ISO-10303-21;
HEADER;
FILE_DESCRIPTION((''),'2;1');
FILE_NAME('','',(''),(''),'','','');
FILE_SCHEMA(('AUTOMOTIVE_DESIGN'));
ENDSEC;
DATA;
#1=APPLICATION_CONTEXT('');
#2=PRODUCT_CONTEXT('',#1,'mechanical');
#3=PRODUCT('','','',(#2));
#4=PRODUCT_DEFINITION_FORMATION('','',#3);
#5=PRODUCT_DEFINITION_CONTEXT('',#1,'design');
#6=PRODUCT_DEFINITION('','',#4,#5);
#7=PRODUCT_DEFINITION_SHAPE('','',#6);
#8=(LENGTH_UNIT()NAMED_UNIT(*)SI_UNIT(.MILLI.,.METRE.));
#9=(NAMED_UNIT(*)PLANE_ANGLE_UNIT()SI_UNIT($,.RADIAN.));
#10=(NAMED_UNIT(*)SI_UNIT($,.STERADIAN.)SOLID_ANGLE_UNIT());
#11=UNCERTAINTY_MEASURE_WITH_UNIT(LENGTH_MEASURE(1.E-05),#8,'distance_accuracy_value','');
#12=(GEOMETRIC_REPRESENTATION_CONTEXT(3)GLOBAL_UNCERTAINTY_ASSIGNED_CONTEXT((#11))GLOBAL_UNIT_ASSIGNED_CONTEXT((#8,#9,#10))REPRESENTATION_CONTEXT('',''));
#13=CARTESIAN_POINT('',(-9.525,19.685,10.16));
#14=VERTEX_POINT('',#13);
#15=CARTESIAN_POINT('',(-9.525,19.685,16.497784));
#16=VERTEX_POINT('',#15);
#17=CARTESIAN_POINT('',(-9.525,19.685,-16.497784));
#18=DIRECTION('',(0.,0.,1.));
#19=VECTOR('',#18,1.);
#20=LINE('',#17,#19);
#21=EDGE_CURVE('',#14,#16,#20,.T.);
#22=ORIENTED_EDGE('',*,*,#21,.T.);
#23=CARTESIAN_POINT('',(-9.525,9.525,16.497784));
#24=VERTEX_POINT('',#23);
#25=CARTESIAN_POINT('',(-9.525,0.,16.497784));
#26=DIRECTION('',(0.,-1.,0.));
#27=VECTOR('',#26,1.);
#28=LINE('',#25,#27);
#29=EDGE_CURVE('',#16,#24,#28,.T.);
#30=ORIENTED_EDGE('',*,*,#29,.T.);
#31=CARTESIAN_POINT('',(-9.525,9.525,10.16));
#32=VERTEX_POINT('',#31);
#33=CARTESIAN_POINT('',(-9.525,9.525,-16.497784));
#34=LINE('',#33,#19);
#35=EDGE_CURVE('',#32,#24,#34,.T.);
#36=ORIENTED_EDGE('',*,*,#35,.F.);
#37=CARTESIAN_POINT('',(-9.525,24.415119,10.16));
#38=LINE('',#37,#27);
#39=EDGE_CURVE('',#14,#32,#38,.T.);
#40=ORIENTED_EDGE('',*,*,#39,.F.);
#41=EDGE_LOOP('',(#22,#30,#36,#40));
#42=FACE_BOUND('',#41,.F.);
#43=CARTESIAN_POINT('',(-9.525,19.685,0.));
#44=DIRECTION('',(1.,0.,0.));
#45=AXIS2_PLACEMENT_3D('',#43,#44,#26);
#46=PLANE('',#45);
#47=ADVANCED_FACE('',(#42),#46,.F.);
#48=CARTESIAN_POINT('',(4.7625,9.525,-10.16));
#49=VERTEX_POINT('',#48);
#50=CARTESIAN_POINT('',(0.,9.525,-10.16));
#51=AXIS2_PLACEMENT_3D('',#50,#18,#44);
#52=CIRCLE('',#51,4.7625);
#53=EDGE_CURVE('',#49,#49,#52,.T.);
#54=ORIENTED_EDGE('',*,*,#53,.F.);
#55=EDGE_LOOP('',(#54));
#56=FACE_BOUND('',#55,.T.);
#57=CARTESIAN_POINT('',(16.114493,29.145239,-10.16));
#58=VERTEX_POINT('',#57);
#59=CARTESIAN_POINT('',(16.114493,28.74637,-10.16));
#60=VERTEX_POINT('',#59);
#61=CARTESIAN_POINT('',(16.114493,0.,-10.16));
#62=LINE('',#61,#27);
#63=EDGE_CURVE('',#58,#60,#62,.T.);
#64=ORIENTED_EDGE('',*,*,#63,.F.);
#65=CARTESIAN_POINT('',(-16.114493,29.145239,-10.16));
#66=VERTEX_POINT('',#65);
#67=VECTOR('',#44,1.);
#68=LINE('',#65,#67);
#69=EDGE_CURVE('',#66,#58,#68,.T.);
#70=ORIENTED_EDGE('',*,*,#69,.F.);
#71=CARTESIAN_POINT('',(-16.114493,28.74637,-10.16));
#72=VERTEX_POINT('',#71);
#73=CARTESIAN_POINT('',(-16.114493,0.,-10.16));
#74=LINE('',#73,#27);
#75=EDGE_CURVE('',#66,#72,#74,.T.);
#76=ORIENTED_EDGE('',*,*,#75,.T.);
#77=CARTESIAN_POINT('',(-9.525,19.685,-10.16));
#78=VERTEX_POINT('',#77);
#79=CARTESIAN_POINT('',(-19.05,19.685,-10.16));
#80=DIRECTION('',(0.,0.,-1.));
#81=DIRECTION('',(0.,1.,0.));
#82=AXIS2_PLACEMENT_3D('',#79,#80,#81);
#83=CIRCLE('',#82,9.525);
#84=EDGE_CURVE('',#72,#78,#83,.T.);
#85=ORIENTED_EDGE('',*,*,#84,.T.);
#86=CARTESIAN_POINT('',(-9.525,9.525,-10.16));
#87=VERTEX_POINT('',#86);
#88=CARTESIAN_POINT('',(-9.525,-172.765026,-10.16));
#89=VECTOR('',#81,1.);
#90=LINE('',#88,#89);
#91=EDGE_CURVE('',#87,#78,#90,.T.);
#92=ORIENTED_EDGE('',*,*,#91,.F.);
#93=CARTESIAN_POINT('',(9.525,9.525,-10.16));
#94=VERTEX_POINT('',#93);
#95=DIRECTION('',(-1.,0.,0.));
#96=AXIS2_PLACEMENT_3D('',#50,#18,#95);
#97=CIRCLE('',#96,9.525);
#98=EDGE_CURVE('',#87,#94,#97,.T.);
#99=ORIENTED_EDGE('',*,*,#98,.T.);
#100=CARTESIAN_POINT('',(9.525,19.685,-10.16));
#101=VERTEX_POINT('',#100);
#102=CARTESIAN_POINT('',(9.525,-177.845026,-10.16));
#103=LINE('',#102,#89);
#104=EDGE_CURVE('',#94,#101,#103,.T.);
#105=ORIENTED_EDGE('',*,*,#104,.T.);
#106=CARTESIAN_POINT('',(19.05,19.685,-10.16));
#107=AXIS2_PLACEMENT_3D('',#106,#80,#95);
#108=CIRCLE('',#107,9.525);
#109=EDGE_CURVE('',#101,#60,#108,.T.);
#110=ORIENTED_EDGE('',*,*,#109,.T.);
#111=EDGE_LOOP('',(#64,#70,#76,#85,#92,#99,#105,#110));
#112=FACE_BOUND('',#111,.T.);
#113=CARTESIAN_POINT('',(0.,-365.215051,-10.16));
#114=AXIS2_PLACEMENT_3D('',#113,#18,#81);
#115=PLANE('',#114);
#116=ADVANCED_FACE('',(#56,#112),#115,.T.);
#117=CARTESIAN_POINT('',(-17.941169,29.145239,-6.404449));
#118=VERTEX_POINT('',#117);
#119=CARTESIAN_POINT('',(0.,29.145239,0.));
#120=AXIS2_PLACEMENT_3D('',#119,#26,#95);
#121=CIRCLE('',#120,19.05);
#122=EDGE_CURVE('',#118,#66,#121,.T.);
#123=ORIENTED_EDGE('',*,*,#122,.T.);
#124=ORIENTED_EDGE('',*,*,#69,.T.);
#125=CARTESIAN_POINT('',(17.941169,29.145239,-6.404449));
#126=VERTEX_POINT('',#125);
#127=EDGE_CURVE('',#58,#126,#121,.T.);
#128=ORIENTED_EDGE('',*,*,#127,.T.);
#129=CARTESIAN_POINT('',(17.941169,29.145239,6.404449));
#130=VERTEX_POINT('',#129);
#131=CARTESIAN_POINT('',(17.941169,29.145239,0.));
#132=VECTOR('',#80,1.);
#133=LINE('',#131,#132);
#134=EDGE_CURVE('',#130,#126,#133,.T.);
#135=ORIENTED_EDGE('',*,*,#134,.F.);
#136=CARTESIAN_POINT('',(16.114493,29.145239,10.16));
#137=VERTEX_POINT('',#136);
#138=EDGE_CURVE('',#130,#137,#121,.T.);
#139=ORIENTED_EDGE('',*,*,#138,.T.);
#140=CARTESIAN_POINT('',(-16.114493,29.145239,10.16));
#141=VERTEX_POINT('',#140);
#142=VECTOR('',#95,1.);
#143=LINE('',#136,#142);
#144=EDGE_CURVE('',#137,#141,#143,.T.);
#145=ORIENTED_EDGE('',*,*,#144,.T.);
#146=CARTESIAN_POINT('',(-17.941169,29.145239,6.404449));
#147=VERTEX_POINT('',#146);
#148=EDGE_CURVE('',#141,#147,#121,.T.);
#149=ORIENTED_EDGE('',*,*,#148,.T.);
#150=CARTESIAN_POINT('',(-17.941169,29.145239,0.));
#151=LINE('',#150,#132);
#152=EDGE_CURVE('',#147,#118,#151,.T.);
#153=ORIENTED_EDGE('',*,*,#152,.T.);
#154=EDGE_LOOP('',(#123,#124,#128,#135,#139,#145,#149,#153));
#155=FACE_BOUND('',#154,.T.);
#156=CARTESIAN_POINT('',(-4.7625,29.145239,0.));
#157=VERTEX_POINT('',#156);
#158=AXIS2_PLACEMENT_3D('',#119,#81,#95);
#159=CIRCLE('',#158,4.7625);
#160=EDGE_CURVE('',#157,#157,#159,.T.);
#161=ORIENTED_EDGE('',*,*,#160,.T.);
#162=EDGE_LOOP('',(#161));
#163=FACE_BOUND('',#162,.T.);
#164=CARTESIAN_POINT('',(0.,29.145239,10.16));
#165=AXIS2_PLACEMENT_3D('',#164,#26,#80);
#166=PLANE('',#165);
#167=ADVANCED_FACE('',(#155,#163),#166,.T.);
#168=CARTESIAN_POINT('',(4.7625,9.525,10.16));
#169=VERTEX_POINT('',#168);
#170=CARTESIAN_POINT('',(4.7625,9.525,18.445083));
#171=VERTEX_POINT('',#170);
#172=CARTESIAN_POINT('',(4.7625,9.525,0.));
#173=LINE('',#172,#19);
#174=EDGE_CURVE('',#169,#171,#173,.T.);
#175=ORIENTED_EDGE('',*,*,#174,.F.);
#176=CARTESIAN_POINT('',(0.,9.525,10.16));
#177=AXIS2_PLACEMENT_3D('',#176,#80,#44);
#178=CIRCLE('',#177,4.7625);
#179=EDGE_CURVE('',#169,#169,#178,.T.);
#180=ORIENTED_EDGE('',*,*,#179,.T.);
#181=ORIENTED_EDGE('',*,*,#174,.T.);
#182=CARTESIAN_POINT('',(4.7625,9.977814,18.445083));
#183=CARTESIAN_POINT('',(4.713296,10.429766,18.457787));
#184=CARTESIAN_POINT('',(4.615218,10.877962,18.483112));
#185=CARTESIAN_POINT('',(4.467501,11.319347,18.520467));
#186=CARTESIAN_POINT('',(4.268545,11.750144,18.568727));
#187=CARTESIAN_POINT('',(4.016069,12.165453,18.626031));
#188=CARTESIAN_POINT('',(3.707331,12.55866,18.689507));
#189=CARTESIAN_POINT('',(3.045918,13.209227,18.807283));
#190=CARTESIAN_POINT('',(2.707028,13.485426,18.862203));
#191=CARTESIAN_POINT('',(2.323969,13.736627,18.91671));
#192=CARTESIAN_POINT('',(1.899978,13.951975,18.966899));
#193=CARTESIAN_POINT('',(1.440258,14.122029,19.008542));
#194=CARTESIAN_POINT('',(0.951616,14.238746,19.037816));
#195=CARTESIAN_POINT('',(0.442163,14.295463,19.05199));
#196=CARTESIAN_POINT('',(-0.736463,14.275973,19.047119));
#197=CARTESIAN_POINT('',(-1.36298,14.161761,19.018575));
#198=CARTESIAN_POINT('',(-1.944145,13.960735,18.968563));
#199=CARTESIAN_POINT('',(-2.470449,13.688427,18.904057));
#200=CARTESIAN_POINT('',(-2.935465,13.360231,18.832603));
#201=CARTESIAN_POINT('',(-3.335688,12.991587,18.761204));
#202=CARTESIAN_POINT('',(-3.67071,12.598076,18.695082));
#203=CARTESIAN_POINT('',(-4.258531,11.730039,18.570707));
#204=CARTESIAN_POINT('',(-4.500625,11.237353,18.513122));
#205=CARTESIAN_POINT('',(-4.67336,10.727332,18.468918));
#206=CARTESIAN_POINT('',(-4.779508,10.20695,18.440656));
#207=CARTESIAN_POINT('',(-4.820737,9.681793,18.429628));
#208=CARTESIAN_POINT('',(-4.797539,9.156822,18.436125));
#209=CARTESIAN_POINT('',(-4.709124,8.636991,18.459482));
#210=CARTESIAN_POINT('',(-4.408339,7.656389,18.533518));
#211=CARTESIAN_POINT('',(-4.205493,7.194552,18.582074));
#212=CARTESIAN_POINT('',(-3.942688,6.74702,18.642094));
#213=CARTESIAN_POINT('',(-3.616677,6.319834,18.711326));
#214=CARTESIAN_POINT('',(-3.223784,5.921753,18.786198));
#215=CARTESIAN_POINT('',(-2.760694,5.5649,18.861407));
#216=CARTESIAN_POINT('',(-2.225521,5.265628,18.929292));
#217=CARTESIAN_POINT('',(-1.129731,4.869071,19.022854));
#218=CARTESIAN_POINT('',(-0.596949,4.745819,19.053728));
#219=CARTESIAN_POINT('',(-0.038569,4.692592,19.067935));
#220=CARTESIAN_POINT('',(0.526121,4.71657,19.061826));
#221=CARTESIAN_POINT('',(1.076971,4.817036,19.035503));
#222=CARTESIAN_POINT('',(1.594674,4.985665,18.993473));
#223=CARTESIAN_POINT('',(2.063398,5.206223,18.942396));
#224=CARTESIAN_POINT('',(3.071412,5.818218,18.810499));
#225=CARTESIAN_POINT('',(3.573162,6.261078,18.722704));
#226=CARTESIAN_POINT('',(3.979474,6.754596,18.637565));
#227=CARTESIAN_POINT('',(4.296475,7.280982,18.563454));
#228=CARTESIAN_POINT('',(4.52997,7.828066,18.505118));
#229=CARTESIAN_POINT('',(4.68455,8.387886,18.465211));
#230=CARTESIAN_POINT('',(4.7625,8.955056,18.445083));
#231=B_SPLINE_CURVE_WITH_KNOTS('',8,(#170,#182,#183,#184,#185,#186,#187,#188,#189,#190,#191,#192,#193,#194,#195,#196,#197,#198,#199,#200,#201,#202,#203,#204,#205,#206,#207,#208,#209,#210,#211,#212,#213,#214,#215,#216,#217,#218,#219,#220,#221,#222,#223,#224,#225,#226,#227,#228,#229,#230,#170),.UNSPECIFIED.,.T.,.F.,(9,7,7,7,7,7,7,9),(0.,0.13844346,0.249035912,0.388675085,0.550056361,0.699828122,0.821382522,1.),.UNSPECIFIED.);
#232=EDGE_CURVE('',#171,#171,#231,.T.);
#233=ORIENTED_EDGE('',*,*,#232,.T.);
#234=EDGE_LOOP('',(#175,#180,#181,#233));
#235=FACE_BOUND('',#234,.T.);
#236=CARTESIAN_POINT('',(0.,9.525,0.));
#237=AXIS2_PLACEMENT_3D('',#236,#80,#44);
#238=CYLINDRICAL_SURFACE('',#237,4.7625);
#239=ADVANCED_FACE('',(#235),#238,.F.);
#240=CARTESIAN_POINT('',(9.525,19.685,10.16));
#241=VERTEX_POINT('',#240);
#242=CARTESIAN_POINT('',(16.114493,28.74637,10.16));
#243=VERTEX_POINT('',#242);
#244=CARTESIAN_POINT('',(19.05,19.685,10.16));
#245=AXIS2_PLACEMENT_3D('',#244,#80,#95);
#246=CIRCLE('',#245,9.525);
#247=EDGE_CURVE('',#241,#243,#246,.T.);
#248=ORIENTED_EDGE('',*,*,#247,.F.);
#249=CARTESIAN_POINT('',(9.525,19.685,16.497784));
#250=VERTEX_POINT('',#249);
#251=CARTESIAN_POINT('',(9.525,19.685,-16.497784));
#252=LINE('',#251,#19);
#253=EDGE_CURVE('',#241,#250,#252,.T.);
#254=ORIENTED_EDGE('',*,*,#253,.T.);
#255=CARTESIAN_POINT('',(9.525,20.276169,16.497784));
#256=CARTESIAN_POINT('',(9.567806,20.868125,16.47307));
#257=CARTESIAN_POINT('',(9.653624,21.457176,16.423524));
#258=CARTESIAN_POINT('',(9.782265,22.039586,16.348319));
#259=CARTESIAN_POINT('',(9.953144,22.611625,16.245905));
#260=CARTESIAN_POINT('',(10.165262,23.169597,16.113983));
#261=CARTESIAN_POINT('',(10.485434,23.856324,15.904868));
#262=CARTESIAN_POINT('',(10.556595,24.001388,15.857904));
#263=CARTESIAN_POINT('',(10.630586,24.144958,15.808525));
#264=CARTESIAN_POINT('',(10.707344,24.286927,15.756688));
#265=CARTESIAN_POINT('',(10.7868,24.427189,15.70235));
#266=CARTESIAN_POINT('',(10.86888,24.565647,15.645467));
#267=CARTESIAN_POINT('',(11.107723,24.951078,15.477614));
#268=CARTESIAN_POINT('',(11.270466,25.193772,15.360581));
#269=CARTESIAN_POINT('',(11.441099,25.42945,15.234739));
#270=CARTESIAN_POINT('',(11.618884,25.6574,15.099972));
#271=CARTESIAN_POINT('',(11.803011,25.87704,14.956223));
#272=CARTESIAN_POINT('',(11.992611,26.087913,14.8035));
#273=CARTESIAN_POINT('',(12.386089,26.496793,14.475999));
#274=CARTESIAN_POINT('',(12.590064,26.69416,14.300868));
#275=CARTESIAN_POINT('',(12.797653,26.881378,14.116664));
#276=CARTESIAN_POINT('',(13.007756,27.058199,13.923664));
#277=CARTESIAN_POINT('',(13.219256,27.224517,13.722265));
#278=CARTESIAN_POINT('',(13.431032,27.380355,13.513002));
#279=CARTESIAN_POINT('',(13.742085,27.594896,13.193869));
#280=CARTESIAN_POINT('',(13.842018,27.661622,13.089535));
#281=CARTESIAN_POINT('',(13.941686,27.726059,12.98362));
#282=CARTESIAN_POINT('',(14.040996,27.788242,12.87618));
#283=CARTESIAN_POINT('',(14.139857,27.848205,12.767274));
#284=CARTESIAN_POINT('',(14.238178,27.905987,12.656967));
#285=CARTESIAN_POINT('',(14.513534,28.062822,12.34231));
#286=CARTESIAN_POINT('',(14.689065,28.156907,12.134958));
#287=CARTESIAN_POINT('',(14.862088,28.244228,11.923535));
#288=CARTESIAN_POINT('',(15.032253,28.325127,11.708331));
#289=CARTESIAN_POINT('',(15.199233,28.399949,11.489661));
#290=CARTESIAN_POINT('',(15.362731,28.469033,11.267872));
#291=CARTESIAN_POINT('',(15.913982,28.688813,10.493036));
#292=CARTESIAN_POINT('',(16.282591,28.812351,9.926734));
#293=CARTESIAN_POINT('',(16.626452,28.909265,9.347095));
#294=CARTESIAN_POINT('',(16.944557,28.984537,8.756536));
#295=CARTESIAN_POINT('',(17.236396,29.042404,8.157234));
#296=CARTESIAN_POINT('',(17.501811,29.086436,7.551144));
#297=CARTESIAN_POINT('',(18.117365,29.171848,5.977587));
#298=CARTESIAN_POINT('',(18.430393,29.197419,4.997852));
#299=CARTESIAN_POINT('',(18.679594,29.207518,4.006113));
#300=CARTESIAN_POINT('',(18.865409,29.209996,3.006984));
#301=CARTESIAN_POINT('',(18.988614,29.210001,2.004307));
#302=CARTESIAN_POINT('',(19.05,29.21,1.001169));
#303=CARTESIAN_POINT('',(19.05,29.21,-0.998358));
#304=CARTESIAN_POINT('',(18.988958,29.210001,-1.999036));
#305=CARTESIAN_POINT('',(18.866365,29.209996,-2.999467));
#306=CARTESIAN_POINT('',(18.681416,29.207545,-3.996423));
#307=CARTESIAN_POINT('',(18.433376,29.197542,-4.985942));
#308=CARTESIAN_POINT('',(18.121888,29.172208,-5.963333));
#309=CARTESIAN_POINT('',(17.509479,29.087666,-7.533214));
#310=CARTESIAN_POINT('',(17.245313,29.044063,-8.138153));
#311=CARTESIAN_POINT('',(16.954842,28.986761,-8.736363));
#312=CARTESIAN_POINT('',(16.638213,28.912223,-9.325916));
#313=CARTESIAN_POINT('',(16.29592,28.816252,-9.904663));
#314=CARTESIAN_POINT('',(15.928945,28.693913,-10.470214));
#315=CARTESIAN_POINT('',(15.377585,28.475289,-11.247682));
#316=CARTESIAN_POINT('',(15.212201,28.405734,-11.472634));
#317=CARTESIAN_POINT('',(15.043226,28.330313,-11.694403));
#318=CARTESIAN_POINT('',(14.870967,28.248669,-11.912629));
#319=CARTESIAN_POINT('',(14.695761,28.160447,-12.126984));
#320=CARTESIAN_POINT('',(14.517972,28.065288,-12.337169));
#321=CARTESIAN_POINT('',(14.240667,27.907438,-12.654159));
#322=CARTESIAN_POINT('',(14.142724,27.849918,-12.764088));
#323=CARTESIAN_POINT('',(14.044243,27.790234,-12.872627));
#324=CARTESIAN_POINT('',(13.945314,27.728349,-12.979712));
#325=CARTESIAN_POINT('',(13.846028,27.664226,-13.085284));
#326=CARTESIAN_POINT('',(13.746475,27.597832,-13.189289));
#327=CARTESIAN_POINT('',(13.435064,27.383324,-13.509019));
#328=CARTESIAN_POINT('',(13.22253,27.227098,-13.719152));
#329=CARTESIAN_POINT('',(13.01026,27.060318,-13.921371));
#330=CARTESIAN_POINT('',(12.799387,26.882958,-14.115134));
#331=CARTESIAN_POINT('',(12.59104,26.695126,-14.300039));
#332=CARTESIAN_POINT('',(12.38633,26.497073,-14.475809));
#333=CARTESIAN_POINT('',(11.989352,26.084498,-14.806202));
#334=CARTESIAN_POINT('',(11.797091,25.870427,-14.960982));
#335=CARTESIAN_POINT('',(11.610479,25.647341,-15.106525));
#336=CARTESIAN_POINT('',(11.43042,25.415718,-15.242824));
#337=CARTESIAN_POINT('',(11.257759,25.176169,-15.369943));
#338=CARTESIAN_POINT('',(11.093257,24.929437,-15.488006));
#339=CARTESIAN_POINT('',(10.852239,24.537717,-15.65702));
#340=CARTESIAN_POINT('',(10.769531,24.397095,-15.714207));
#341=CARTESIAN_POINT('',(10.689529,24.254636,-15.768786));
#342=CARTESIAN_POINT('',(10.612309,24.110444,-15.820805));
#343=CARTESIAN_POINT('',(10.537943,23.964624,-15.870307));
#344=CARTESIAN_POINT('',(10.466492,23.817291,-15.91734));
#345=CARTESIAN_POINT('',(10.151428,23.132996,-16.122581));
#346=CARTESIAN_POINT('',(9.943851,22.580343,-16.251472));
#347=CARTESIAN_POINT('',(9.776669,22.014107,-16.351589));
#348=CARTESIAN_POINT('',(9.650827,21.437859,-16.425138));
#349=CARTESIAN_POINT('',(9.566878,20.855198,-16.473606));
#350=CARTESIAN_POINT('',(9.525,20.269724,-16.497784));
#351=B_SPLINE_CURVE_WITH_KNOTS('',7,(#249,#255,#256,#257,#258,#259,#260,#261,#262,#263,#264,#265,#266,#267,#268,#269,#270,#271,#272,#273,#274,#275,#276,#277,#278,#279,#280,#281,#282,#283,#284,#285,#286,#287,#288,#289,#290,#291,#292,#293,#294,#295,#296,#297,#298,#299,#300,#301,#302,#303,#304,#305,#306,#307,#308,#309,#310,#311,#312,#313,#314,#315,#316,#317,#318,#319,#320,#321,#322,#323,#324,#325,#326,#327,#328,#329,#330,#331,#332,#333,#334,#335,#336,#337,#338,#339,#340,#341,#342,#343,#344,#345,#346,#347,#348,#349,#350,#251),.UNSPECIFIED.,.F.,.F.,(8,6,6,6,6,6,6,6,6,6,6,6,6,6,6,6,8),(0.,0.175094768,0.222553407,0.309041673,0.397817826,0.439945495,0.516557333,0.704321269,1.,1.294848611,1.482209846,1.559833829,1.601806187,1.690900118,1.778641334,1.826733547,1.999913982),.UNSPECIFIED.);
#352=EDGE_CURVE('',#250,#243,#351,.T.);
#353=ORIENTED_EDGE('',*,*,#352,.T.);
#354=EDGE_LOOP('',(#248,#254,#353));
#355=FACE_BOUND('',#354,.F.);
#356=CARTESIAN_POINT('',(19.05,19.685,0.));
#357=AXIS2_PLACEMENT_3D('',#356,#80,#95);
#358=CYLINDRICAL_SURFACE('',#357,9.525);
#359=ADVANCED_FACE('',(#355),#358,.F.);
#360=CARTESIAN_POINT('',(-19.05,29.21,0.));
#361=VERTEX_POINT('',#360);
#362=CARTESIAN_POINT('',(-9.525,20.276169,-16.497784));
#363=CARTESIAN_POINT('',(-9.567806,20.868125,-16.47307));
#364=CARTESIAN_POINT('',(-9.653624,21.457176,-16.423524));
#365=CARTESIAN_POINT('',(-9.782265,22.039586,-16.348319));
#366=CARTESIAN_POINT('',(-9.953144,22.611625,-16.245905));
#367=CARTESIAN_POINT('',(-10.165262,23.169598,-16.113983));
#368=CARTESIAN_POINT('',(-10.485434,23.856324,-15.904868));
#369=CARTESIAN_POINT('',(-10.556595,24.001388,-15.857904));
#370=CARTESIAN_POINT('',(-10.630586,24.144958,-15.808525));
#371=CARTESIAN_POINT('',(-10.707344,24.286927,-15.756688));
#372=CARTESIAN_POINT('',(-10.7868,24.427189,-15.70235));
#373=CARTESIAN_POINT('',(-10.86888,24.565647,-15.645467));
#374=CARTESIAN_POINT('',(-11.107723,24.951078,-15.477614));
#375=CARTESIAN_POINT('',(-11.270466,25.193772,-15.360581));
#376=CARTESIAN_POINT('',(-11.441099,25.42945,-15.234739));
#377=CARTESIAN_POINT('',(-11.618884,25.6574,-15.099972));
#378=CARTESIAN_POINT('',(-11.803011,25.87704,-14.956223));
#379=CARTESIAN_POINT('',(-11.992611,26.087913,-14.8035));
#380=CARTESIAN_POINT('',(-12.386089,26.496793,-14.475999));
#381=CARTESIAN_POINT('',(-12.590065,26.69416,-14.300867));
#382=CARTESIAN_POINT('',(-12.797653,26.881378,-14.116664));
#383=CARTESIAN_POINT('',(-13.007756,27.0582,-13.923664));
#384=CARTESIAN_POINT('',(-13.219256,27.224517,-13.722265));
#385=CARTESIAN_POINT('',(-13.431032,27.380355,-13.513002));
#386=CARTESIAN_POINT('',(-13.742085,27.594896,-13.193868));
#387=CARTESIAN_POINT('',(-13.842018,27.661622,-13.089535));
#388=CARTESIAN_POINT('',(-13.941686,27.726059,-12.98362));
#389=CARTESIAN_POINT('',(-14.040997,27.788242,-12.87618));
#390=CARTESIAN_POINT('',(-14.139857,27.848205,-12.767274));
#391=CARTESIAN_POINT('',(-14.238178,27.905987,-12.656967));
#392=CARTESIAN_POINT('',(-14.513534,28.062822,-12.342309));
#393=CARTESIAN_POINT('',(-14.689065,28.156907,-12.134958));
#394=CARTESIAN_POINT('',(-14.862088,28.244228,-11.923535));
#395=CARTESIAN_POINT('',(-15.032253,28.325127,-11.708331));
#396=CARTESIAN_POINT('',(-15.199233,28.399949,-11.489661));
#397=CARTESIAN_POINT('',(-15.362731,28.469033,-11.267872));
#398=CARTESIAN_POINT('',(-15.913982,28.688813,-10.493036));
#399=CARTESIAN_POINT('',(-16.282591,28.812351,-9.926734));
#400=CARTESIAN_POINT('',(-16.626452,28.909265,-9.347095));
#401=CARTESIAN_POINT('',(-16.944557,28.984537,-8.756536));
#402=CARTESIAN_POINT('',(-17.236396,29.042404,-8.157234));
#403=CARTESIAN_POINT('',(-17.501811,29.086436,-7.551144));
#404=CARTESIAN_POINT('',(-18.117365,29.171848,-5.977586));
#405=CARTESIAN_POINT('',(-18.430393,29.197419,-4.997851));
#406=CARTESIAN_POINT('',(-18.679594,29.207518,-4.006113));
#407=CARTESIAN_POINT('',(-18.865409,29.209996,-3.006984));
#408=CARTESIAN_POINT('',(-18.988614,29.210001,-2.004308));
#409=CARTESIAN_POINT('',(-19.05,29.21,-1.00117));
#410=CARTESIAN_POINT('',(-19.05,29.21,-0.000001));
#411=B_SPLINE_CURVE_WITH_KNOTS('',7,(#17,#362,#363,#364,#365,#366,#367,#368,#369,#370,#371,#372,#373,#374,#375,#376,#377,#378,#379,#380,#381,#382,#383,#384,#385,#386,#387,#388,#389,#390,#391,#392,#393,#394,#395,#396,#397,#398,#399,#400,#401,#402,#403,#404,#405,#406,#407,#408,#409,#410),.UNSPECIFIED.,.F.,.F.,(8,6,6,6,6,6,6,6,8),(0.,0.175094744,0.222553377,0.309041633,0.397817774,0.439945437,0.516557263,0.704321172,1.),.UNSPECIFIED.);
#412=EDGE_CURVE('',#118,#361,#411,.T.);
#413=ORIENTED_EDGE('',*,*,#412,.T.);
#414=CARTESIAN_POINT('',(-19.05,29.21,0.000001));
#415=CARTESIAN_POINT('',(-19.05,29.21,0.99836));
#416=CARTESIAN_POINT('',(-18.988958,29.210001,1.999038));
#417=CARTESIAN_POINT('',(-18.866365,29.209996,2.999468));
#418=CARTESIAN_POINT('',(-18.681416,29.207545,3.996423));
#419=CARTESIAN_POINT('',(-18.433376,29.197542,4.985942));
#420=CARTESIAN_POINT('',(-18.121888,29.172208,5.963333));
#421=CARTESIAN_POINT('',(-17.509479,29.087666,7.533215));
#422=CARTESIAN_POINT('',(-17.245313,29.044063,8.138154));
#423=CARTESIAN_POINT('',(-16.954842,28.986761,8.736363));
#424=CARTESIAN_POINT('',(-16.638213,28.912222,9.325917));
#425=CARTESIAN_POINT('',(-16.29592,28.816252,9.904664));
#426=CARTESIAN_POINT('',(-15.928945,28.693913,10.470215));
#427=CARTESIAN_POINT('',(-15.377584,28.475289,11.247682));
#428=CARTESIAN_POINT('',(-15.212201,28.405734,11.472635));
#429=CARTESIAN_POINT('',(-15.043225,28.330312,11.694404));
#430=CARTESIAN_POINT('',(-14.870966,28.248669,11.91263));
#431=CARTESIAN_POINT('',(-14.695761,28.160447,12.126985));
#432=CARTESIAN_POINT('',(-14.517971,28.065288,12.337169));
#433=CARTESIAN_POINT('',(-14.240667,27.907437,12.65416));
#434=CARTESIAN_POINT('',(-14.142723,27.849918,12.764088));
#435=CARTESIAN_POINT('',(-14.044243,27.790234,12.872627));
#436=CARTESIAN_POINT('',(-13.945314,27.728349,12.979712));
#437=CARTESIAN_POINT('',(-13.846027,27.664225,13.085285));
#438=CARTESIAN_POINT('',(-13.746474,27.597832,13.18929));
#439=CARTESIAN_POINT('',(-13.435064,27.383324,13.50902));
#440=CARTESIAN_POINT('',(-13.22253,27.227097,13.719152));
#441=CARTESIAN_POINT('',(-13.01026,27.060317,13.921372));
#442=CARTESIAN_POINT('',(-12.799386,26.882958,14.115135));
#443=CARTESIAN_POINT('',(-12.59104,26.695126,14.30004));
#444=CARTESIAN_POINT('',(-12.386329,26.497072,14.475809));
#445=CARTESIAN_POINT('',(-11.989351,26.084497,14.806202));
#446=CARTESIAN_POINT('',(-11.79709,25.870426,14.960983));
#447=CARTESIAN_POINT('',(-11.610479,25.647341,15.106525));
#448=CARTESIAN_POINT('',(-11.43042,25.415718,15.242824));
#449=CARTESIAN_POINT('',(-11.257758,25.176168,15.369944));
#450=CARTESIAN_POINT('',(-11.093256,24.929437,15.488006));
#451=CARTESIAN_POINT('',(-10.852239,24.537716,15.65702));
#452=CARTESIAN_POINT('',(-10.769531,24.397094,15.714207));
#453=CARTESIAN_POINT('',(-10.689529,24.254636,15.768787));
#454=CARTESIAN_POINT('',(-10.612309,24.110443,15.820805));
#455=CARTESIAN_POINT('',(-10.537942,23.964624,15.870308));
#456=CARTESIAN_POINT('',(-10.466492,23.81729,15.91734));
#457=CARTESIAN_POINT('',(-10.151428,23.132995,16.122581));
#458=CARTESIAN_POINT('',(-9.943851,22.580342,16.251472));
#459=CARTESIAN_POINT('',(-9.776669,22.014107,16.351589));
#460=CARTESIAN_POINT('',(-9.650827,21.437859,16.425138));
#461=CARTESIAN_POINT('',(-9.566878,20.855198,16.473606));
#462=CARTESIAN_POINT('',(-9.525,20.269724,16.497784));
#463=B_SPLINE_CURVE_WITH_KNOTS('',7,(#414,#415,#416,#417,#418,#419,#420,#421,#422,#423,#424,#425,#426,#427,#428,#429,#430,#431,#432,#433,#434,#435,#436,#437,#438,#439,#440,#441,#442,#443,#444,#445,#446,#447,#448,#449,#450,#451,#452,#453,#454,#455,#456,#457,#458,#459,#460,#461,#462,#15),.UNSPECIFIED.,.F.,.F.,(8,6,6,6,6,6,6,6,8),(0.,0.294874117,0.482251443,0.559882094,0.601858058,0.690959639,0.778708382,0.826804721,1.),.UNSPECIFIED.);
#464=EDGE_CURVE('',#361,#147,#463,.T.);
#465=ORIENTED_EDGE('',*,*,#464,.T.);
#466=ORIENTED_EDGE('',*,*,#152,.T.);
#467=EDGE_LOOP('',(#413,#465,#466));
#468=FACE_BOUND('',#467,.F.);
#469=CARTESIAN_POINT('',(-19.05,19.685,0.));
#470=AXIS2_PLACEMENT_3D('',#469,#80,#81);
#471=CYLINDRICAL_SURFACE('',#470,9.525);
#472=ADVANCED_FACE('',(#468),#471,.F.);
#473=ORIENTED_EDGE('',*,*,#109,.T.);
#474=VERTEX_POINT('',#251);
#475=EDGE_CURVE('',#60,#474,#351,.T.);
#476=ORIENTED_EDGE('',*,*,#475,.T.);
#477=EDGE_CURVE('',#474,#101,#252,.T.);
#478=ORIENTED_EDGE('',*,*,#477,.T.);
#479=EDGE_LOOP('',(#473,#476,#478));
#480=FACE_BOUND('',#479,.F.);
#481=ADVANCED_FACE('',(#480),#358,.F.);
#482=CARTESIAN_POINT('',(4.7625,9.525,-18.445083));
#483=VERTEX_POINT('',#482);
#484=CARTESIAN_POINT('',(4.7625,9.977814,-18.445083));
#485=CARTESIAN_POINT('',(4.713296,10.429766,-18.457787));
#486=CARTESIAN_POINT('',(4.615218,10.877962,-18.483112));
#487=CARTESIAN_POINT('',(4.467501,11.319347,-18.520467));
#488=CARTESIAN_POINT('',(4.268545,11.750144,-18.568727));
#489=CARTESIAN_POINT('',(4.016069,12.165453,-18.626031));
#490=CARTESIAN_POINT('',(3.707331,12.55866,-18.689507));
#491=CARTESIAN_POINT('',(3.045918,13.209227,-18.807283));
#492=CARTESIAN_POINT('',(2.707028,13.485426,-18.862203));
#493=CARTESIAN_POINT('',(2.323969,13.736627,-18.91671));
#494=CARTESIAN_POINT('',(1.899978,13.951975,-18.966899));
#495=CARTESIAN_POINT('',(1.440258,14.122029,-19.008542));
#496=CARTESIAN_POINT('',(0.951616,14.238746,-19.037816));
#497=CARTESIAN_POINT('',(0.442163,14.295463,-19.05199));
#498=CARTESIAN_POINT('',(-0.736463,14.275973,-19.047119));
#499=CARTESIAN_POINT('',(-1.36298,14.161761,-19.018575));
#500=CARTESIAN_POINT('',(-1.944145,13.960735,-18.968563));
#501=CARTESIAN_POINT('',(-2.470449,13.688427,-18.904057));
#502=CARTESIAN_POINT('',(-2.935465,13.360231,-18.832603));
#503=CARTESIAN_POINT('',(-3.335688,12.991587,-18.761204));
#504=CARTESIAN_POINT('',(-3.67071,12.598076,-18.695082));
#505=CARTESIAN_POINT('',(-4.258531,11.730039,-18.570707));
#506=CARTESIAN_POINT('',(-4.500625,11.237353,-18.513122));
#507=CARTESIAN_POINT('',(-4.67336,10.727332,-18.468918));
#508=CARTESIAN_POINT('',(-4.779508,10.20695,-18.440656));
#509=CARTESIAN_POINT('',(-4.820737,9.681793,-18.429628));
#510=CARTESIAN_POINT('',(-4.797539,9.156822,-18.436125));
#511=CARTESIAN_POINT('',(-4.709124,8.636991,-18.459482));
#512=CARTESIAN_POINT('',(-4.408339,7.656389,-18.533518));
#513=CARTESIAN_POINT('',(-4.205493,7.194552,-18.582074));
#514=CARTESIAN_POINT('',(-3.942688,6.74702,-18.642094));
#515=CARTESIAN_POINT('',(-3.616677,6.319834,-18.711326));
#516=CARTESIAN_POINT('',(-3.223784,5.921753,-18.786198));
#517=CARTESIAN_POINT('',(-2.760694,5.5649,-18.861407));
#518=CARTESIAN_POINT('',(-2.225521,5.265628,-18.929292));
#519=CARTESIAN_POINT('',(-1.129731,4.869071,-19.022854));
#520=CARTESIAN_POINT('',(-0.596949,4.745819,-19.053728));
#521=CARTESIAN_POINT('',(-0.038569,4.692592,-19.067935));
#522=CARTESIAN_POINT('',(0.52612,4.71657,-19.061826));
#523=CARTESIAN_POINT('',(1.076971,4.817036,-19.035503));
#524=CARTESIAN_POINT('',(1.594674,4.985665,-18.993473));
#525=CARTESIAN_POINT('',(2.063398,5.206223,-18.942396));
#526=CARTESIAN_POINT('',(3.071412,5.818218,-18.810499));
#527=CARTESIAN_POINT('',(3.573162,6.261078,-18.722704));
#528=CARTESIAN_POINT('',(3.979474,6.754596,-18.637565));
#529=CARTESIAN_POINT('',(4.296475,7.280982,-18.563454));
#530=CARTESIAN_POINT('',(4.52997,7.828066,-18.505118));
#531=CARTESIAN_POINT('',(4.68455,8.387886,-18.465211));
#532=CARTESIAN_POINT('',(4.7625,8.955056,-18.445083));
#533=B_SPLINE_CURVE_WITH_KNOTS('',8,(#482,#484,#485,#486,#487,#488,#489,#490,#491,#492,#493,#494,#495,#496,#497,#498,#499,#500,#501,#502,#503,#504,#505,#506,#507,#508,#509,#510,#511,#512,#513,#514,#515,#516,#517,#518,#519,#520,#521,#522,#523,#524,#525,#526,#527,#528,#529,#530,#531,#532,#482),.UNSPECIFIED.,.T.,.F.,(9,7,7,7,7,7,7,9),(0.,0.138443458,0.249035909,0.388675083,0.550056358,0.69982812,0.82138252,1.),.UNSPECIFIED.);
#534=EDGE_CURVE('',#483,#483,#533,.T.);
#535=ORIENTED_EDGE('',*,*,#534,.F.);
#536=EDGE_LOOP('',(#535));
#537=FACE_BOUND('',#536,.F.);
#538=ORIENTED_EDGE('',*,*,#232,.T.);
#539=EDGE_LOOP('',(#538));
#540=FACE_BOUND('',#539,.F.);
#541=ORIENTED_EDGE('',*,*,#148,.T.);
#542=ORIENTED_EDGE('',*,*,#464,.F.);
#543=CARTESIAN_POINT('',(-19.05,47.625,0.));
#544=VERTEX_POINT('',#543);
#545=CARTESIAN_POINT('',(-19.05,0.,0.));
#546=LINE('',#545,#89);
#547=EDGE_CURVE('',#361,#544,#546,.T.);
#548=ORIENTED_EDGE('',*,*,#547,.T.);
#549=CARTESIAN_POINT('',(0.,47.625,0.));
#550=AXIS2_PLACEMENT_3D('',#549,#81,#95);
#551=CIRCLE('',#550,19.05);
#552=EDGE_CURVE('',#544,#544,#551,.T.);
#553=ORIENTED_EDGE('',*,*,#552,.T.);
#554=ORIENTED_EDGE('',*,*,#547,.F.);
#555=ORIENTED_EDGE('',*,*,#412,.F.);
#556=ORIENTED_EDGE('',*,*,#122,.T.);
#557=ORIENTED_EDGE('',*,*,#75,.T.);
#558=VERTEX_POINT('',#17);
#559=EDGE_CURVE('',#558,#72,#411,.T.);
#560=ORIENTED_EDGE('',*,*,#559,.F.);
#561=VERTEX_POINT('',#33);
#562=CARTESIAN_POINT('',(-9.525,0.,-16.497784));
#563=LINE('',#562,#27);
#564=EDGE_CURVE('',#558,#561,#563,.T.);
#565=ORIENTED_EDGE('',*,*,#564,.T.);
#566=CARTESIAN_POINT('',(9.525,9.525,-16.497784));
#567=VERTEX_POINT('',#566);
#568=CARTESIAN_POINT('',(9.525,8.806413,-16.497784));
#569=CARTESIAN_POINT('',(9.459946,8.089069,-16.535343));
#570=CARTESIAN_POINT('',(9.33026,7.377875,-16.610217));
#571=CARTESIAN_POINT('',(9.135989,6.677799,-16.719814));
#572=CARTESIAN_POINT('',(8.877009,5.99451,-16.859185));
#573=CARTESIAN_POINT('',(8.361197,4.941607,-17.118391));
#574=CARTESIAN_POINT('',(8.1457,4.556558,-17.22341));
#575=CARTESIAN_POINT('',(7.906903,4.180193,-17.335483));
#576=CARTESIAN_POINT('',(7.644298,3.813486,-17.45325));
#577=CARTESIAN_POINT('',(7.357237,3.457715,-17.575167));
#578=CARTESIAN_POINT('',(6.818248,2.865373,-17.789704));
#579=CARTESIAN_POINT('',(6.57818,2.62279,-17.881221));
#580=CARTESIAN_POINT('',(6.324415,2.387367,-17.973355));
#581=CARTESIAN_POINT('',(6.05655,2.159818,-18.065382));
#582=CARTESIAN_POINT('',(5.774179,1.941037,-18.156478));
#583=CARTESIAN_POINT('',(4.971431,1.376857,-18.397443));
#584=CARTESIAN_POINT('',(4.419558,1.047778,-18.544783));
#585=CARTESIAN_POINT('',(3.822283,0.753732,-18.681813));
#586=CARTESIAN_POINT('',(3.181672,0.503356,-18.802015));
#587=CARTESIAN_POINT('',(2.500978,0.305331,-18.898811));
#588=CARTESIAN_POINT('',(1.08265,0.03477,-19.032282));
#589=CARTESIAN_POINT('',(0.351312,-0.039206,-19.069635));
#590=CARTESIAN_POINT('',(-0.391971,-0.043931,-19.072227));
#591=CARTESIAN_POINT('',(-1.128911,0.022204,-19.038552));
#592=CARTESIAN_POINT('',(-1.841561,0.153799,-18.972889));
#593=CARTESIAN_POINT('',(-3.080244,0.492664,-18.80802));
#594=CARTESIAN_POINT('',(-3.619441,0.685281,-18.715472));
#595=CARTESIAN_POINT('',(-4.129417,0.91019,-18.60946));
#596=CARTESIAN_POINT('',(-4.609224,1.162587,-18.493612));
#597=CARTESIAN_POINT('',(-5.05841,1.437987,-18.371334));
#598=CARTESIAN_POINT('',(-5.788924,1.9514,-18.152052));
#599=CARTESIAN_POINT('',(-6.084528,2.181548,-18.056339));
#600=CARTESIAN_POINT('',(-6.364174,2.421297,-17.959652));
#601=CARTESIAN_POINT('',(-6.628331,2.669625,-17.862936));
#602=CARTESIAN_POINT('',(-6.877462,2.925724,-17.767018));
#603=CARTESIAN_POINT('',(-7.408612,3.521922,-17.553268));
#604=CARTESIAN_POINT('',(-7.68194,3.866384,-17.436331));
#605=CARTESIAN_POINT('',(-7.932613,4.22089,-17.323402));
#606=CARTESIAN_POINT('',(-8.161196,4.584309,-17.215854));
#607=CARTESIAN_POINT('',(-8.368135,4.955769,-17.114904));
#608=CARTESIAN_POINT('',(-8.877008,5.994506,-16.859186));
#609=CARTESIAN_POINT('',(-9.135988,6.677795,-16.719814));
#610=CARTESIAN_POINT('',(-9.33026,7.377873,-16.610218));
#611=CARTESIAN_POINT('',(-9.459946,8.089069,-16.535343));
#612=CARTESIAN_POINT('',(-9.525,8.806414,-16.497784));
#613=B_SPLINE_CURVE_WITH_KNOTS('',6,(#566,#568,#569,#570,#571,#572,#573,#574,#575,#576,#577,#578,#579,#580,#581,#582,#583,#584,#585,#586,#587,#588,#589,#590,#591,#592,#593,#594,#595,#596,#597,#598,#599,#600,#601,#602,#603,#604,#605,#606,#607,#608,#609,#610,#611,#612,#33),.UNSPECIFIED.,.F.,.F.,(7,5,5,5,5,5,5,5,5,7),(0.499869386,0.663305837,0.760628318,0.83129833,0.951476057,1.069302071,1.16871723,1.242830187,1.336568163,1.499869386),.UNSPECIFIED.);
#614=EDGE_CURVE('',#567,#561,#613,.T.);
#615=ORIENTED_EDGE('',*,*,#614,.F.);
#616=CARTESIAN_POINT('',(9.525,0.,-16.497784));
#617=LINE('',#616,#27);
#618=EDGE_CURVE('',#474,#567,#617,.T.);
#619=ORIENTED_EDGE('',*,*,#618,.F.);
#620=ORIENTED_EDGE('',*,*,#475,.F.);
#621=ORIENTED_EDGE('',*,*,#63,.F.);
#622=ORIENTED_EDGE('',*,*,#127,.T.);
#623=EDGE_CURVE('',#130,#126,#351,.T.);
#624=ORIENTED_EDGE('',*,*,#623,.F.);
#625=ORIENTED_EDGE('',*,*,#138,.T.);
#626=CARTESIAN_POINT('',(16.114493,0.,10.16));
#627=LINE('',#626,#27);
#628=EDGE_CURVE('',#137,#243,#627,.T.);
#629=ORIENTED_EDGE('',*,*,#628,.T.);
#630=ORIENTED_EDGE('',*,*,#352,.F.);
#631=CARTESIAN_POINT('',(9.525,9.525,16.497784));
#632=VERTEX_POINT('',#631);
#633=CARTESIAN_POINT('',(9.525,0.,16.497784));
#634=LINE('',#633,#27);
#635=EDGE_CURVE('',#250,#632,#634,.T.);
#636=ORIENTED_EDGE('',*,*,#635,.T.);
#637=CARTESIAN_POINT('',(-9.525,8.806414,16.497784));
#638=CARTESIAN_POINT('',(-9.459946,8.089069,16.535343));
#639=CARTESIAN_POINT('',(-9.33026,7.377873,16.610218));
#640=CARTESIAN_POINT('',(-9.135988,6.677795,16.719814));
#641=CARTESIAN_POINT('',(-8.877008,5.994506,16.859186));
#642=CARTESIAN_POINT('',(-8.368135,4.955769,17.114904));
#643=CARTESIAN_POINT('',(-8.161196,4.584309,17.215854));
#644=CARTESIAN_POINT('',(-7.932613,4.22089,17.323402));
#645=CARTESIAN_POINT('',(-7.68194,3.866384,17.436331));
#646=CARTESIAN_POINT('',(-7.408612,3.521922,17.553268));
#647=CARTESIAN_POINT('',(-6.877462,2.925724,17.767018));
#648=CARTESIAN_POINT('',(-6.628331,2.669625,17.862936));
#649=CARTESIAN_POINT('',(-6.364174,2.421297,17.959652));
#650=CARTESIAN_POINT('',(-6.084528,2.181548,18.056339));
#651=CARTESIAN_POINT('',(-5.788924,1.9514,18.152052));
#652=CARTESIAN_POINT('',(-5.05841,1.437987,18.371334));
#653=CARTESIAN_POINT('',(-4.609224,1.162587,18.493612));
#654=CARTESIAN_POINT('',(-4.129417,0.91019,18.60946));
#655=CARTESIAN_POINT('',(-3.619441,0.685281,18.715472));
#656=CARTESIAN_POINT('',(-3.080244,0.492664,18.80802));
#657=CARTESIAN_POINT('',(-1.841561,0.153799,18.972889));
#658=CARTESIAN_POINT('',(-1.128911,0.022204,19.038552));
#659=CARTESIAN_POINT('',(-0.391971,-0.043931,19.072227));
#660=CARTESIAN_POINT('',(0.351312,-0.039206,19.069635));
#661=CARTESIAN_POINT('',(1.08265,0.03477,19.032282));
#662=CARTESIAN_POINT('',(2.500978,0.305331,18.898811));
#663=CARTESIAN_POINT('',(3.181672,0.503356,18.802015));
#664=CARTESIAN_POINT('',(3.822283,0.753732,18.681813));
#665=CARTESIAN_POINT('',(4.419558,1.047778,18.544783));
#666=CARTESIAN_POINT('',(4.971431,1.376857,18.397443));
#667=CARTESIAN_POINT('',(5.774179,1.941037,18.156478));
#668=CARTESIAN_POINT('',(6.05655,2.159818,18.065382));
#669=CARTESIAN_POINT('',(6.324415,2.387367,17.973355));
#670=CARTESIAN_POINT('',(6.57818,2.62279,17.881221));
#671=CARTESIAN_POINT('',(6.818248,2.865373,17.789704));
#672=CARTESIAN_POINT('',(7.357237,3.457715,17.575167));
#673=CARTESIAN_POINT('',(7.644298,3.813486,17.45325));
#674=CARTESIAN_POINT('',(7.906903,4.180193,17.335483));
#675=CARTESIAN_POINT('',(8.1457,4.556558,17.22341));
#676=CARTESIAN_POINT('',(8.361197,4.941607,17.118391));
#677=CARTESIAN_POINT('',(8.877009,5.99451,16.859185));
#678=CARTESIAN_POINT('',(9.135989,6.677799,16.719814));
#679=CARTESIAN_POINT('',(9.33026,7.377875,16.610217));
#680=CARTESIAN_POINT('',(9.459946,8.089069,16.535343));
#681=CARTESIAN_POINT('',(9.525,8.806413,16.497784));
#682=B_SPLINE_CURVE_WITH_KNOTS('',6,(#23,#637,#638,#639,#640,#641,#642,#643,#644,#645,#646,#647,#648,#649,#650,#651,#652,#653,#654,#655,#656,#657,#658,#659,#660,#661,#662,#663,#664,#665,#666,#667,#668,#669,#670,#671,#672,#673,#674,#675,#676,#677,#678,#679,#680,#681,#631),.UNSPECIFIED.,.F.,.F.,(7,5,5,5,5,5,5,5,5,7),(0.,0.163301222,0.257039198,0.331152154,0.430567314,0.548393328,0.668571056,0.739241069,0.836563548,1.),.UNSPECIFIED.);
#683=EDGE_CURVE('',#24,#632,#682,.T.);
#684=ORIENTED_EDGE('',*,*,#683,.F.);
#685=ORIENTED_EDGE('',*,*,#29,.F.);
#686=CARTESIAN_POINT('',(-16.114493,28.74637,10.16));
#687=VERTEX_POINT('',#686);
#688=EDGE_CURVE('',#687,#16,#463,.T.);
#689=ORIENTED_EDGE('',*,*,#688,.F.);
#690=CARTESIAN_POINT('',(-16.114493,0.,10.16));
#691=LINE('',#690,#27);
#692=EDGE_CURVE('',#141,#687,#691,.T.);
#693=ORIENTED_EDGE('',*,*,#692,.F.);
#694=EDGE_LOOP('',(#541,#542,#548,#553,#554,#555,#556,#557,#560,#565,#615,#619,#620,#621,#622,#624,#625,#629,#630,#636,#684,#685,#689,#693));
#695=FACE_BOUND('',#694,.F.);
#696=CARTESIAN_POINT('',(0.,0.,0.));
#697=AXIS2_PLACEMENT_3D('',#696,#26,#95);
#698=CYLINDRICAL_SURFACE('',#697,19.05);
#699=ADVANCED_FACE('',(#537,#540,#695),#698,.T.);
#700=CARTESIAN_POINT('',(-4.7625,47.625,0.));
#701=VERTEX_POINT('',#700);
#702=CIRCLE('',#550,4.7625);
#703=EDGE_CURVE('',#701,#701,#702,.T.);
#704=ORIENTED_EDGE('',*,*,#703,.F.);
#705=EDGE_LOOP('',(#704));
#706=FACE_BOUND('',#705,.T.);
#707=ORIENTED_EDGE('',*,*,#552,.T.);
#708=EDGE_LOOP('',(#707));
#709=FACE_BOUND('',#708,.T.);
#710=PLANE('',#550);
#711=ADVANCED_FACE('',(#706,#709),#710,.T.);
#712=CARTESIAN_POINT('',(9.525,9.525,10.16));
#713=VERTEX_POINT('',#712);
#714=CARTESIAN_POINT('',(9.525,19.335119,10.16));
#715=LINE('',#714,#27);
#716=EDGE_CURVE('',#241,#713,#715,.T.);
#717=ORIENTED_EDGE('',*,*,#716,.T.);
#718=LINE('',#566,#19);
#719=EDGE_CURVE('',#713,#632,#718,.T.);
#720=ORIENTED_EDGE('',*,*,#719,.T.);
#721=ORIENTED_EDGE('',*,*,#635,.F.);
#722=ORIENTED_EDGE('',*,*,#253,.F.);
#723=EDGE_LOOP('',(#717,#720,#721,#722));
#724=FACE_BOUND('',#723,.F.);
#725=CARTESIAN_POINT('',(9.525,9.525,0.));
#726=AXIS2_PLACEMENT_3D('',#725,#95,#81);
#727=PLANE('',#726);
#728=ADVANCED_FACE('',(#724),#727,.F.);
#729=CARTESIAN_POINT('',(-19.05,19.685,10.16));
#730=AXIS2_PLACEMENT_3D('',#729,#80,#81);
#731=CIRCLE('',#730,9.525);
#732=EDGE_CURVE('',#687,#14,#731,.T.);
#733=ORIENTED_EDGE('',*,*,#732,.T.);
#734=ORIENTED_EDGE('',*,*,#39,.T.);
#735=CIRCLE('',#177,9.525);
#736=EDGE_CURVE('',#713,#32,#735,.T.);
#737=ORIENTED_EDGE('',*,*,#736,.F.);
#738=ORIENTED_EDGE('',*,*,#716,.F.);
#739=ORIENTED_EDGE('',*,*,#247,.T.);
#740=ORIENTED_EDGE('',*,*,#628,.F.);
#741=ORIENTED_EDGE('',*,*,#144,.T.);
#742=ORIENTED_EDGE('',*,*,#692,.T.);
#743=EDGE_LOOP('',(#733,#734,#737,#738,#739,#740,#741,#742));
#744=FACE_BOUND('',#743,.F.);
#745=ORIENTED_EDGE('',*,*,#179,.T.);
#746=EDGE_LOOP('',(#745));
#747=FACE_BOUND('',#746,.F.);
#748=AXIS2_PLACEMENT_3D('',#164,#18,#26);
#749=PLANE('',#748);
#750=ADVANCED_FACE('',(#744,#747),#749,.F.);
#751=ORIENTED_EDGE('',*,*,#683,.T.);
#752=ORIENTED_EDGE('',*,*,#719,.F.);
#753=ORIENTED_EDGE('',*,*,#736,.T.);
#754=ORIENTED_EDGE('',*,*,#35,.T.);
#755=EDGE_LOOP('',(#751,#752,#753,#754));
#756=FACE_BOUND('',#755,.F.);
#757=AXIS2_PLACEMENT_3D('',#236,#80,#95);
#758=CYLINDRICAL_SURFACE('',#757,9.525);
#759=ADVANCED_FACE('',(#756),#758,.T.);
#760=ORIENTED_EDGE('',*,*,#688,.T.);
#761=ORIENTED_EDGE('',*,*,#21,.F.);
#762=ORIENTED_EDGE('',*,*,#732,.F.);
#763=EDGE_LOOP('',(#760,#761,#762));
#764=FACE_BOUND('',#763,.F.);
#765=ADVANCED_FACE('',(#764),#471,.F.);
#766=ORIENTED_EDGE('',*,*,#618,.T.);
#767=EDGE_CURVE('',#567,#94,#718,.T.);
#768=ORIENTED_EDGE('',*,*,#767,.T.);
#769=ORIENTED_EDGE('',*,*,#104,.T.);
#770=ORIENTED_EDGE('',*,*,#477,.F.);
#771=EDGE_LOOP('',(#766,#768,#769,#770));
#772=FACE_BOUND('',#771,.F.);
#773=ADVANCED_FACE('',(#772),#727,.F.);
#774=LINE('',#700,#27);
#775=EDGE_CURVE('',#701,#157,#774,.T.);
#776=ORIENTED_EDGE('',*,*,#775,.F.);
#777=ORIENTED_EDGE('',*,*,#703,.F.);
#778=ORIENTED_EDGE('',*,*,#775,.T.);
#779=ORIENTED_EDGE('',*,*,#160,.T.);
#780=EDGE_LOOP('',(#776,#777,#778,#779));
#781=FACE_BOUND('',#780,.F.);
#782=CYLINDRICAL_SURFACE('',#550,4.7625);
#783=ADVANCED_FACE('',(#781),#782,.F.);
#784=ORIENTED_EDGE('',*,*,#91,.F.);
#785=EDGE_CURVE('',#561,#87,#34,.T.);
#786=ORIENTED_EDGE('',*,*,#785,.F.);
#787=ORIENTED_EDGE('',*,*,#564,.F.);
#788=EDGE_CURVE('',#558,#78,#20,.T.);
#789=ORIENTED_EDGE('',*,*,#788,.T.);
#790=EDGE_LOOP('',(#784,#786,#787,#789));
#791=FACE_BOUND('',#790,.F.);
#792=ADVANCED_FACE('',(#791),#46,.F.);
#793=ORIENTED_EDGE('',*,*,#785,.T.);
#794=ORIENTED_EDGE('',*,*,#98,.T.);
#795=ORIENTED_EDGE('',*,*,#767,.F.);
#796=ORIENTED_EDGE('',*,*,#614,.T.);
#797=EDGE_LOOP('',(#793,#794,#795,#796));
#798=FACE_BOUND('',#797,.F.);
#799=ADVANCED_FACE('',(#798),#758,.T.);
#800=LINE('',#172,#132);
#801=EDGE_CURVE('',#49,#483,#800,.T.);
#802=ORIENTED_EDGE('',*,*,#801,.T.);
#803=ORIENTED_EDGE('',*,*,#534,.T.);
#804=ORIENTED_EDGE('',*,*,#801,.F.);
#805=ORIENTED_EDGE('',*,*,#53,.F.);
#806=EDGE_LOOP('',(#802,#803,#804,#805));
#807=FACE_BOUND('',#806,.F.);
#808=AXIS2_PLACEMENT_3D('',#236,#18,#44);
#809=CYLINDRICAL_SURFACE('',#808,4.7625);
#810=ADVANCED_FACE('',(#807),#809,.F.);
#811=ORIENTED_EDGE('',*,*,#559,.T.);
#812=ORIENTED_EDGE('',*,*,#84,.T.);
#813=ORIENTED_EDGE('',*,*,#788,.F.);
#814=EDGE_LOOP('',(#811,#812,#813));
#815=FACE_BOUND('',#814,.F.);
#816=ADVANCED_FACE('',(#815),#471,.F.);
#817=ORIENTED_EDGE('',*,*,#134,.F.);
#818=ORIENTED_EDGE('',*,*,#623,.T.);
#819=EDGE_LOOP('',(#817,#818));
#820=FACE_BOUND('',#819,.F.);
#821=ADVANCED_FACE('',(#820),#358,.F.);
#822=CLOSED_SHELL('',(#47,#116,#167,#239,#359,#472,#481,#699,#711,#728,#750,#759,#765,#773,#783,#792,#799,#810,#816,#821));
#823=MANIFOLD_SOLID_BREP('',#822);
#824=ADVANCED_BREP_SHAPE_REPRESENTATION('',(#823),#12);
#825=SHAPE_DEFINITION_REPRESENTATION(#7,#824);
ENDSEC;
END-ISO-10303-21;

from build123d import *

# Parameters (mm, degrees)
SKETCH1_R               = 19.05
BASE_EXTRUDE_DEPTH      = 47.625
CUT_EXTRUDE1_DEPTH      = 20.05
CUT_EXTRUDE1_DEPTH_BACK = 20.05
CUT_EXTRUDE5_DEPTH      = 20.0500001
CUT_EXTRUDE5_DEPTH_BACK = 20.0500001
SKETCH11_R              = 4.7625
CUT_EXTRUDE6_DEPTH      = 20.0500001
CUT_EXTRUDE6_DEPTH_BACK = 20.0500001
SKETCH12_R              = 4.7625
CUT_EXTRUDE7_DEPTH      = 48.625000104


with BuildPart() as part:
    # Sketch1 → Base-Extrude (new body)
    with BuildSketch(Plane(origin=(0, 0, 0), x_dir=(-1, 0, 0), z_dir=(0, 1, 0))):
        Circle(SKETCH1_R)
    extrude(amount=BASE_EXTRUDE_DEPTH)

    # Sketch2 → Cut-Extrude1 (cut, two sides)
    with BuildSketch(Plane.XY) as cut_extrude1_sk:
        with BuildLine():
            Line((-19.05, -131.979516723), (-19.05, 0))
            Line((-19.05, 0), (-19.05, 29.21))
            ThreePointArc((-19.05, 29.21), (-12.314807909, 26.420192091), (-9.525, 19.685))
            Line((-9.525, 19.685), (-9.525, 9.525))
            ThreePointArc((-9.525, 9.525), (0, 0), (9.525, 9.525))
            Line((9.525, 9.525), (9.525, 19.685))
            ThreePointArc((9.525, 19.685), (12.314807909, 26.420192091), (19.05, 29.21))
            Line((19.05, 29.21), (19.05, 0))
            Line((19.05, 0), (19.05, -131.979516723))
            Line((19.05, -131.979516723), (19.05, -395.938550169))
            Line((19.05, -395.938550169), (-19.05, -395.938550169))
            Line((-19.05, -395.938550169), (-19.05, -131.979516723))
        make_face()
    extrude(amount=CUT_EXTRUDE1_DEPTH, mode=Mode.SUBTRACT)
    extrude(cut_extrude1_sk.sketch, amount=-CUT_EXTRUDE1_DEPTH_BACK, mode=Mode.SUBTRACT)

    # Sketch8 → Cut-Extrude5 (cut, two sides)
    with BuildSketch(Plane(origin=(0, 0, 0), x_dir=(0, 0, -1), z_dir=(1, 0, 0))) as cut_extrude5_sk:
        Polygon((-10.16, -121.738350451), (-10.16, 0), (-10.16, 29.145238826), (10.16, 29.145238826), (10.16, 0), (10.16, -121.738350451), (10.16, -365.215051352), (-10.16, -365.215051352), align=None)
    extrude(amount=CUT_EXTRUDE5_DEPTH, mode=Mode.SUBTRACT)
    extrude(cut_extrude5_sk.sketch, amount=-CUT_EXTRUDE5_DEPTH_BACK, mode=Mode.SUBTRACT)

    # Sketch11 → Cut-Extrude6 (cut, two sides)
    with BuildSketch(Plane.XY) as cut_extrude6_sk:
        with Locations((0, 9.525)):
            Circle(SKETCH11_R)
    extrude(amount=CUT_EXTRUDE6_DEPTH, mode=Mode.SUBTRACT)
    extrude(cut_extrude6_sk.sketch, amount=-CUT_EXTRUDE6_DEPTH_BACK, mode=Mode.SUBTRACT)

    # Sketch12 → Cut-Extrude7 (cut, through all)
    with BuildSketch(Plane(origin=(0, 47.625, 0), x_dir=(-1, 0, 0), z_dir=(0, 1, 0))):
        Circle(SKETCH12_R)
    extrude(amount=-CUT_EXTRUDE7_DEPTH, mode=Mode.SUBTRACT)


solid = part.part
